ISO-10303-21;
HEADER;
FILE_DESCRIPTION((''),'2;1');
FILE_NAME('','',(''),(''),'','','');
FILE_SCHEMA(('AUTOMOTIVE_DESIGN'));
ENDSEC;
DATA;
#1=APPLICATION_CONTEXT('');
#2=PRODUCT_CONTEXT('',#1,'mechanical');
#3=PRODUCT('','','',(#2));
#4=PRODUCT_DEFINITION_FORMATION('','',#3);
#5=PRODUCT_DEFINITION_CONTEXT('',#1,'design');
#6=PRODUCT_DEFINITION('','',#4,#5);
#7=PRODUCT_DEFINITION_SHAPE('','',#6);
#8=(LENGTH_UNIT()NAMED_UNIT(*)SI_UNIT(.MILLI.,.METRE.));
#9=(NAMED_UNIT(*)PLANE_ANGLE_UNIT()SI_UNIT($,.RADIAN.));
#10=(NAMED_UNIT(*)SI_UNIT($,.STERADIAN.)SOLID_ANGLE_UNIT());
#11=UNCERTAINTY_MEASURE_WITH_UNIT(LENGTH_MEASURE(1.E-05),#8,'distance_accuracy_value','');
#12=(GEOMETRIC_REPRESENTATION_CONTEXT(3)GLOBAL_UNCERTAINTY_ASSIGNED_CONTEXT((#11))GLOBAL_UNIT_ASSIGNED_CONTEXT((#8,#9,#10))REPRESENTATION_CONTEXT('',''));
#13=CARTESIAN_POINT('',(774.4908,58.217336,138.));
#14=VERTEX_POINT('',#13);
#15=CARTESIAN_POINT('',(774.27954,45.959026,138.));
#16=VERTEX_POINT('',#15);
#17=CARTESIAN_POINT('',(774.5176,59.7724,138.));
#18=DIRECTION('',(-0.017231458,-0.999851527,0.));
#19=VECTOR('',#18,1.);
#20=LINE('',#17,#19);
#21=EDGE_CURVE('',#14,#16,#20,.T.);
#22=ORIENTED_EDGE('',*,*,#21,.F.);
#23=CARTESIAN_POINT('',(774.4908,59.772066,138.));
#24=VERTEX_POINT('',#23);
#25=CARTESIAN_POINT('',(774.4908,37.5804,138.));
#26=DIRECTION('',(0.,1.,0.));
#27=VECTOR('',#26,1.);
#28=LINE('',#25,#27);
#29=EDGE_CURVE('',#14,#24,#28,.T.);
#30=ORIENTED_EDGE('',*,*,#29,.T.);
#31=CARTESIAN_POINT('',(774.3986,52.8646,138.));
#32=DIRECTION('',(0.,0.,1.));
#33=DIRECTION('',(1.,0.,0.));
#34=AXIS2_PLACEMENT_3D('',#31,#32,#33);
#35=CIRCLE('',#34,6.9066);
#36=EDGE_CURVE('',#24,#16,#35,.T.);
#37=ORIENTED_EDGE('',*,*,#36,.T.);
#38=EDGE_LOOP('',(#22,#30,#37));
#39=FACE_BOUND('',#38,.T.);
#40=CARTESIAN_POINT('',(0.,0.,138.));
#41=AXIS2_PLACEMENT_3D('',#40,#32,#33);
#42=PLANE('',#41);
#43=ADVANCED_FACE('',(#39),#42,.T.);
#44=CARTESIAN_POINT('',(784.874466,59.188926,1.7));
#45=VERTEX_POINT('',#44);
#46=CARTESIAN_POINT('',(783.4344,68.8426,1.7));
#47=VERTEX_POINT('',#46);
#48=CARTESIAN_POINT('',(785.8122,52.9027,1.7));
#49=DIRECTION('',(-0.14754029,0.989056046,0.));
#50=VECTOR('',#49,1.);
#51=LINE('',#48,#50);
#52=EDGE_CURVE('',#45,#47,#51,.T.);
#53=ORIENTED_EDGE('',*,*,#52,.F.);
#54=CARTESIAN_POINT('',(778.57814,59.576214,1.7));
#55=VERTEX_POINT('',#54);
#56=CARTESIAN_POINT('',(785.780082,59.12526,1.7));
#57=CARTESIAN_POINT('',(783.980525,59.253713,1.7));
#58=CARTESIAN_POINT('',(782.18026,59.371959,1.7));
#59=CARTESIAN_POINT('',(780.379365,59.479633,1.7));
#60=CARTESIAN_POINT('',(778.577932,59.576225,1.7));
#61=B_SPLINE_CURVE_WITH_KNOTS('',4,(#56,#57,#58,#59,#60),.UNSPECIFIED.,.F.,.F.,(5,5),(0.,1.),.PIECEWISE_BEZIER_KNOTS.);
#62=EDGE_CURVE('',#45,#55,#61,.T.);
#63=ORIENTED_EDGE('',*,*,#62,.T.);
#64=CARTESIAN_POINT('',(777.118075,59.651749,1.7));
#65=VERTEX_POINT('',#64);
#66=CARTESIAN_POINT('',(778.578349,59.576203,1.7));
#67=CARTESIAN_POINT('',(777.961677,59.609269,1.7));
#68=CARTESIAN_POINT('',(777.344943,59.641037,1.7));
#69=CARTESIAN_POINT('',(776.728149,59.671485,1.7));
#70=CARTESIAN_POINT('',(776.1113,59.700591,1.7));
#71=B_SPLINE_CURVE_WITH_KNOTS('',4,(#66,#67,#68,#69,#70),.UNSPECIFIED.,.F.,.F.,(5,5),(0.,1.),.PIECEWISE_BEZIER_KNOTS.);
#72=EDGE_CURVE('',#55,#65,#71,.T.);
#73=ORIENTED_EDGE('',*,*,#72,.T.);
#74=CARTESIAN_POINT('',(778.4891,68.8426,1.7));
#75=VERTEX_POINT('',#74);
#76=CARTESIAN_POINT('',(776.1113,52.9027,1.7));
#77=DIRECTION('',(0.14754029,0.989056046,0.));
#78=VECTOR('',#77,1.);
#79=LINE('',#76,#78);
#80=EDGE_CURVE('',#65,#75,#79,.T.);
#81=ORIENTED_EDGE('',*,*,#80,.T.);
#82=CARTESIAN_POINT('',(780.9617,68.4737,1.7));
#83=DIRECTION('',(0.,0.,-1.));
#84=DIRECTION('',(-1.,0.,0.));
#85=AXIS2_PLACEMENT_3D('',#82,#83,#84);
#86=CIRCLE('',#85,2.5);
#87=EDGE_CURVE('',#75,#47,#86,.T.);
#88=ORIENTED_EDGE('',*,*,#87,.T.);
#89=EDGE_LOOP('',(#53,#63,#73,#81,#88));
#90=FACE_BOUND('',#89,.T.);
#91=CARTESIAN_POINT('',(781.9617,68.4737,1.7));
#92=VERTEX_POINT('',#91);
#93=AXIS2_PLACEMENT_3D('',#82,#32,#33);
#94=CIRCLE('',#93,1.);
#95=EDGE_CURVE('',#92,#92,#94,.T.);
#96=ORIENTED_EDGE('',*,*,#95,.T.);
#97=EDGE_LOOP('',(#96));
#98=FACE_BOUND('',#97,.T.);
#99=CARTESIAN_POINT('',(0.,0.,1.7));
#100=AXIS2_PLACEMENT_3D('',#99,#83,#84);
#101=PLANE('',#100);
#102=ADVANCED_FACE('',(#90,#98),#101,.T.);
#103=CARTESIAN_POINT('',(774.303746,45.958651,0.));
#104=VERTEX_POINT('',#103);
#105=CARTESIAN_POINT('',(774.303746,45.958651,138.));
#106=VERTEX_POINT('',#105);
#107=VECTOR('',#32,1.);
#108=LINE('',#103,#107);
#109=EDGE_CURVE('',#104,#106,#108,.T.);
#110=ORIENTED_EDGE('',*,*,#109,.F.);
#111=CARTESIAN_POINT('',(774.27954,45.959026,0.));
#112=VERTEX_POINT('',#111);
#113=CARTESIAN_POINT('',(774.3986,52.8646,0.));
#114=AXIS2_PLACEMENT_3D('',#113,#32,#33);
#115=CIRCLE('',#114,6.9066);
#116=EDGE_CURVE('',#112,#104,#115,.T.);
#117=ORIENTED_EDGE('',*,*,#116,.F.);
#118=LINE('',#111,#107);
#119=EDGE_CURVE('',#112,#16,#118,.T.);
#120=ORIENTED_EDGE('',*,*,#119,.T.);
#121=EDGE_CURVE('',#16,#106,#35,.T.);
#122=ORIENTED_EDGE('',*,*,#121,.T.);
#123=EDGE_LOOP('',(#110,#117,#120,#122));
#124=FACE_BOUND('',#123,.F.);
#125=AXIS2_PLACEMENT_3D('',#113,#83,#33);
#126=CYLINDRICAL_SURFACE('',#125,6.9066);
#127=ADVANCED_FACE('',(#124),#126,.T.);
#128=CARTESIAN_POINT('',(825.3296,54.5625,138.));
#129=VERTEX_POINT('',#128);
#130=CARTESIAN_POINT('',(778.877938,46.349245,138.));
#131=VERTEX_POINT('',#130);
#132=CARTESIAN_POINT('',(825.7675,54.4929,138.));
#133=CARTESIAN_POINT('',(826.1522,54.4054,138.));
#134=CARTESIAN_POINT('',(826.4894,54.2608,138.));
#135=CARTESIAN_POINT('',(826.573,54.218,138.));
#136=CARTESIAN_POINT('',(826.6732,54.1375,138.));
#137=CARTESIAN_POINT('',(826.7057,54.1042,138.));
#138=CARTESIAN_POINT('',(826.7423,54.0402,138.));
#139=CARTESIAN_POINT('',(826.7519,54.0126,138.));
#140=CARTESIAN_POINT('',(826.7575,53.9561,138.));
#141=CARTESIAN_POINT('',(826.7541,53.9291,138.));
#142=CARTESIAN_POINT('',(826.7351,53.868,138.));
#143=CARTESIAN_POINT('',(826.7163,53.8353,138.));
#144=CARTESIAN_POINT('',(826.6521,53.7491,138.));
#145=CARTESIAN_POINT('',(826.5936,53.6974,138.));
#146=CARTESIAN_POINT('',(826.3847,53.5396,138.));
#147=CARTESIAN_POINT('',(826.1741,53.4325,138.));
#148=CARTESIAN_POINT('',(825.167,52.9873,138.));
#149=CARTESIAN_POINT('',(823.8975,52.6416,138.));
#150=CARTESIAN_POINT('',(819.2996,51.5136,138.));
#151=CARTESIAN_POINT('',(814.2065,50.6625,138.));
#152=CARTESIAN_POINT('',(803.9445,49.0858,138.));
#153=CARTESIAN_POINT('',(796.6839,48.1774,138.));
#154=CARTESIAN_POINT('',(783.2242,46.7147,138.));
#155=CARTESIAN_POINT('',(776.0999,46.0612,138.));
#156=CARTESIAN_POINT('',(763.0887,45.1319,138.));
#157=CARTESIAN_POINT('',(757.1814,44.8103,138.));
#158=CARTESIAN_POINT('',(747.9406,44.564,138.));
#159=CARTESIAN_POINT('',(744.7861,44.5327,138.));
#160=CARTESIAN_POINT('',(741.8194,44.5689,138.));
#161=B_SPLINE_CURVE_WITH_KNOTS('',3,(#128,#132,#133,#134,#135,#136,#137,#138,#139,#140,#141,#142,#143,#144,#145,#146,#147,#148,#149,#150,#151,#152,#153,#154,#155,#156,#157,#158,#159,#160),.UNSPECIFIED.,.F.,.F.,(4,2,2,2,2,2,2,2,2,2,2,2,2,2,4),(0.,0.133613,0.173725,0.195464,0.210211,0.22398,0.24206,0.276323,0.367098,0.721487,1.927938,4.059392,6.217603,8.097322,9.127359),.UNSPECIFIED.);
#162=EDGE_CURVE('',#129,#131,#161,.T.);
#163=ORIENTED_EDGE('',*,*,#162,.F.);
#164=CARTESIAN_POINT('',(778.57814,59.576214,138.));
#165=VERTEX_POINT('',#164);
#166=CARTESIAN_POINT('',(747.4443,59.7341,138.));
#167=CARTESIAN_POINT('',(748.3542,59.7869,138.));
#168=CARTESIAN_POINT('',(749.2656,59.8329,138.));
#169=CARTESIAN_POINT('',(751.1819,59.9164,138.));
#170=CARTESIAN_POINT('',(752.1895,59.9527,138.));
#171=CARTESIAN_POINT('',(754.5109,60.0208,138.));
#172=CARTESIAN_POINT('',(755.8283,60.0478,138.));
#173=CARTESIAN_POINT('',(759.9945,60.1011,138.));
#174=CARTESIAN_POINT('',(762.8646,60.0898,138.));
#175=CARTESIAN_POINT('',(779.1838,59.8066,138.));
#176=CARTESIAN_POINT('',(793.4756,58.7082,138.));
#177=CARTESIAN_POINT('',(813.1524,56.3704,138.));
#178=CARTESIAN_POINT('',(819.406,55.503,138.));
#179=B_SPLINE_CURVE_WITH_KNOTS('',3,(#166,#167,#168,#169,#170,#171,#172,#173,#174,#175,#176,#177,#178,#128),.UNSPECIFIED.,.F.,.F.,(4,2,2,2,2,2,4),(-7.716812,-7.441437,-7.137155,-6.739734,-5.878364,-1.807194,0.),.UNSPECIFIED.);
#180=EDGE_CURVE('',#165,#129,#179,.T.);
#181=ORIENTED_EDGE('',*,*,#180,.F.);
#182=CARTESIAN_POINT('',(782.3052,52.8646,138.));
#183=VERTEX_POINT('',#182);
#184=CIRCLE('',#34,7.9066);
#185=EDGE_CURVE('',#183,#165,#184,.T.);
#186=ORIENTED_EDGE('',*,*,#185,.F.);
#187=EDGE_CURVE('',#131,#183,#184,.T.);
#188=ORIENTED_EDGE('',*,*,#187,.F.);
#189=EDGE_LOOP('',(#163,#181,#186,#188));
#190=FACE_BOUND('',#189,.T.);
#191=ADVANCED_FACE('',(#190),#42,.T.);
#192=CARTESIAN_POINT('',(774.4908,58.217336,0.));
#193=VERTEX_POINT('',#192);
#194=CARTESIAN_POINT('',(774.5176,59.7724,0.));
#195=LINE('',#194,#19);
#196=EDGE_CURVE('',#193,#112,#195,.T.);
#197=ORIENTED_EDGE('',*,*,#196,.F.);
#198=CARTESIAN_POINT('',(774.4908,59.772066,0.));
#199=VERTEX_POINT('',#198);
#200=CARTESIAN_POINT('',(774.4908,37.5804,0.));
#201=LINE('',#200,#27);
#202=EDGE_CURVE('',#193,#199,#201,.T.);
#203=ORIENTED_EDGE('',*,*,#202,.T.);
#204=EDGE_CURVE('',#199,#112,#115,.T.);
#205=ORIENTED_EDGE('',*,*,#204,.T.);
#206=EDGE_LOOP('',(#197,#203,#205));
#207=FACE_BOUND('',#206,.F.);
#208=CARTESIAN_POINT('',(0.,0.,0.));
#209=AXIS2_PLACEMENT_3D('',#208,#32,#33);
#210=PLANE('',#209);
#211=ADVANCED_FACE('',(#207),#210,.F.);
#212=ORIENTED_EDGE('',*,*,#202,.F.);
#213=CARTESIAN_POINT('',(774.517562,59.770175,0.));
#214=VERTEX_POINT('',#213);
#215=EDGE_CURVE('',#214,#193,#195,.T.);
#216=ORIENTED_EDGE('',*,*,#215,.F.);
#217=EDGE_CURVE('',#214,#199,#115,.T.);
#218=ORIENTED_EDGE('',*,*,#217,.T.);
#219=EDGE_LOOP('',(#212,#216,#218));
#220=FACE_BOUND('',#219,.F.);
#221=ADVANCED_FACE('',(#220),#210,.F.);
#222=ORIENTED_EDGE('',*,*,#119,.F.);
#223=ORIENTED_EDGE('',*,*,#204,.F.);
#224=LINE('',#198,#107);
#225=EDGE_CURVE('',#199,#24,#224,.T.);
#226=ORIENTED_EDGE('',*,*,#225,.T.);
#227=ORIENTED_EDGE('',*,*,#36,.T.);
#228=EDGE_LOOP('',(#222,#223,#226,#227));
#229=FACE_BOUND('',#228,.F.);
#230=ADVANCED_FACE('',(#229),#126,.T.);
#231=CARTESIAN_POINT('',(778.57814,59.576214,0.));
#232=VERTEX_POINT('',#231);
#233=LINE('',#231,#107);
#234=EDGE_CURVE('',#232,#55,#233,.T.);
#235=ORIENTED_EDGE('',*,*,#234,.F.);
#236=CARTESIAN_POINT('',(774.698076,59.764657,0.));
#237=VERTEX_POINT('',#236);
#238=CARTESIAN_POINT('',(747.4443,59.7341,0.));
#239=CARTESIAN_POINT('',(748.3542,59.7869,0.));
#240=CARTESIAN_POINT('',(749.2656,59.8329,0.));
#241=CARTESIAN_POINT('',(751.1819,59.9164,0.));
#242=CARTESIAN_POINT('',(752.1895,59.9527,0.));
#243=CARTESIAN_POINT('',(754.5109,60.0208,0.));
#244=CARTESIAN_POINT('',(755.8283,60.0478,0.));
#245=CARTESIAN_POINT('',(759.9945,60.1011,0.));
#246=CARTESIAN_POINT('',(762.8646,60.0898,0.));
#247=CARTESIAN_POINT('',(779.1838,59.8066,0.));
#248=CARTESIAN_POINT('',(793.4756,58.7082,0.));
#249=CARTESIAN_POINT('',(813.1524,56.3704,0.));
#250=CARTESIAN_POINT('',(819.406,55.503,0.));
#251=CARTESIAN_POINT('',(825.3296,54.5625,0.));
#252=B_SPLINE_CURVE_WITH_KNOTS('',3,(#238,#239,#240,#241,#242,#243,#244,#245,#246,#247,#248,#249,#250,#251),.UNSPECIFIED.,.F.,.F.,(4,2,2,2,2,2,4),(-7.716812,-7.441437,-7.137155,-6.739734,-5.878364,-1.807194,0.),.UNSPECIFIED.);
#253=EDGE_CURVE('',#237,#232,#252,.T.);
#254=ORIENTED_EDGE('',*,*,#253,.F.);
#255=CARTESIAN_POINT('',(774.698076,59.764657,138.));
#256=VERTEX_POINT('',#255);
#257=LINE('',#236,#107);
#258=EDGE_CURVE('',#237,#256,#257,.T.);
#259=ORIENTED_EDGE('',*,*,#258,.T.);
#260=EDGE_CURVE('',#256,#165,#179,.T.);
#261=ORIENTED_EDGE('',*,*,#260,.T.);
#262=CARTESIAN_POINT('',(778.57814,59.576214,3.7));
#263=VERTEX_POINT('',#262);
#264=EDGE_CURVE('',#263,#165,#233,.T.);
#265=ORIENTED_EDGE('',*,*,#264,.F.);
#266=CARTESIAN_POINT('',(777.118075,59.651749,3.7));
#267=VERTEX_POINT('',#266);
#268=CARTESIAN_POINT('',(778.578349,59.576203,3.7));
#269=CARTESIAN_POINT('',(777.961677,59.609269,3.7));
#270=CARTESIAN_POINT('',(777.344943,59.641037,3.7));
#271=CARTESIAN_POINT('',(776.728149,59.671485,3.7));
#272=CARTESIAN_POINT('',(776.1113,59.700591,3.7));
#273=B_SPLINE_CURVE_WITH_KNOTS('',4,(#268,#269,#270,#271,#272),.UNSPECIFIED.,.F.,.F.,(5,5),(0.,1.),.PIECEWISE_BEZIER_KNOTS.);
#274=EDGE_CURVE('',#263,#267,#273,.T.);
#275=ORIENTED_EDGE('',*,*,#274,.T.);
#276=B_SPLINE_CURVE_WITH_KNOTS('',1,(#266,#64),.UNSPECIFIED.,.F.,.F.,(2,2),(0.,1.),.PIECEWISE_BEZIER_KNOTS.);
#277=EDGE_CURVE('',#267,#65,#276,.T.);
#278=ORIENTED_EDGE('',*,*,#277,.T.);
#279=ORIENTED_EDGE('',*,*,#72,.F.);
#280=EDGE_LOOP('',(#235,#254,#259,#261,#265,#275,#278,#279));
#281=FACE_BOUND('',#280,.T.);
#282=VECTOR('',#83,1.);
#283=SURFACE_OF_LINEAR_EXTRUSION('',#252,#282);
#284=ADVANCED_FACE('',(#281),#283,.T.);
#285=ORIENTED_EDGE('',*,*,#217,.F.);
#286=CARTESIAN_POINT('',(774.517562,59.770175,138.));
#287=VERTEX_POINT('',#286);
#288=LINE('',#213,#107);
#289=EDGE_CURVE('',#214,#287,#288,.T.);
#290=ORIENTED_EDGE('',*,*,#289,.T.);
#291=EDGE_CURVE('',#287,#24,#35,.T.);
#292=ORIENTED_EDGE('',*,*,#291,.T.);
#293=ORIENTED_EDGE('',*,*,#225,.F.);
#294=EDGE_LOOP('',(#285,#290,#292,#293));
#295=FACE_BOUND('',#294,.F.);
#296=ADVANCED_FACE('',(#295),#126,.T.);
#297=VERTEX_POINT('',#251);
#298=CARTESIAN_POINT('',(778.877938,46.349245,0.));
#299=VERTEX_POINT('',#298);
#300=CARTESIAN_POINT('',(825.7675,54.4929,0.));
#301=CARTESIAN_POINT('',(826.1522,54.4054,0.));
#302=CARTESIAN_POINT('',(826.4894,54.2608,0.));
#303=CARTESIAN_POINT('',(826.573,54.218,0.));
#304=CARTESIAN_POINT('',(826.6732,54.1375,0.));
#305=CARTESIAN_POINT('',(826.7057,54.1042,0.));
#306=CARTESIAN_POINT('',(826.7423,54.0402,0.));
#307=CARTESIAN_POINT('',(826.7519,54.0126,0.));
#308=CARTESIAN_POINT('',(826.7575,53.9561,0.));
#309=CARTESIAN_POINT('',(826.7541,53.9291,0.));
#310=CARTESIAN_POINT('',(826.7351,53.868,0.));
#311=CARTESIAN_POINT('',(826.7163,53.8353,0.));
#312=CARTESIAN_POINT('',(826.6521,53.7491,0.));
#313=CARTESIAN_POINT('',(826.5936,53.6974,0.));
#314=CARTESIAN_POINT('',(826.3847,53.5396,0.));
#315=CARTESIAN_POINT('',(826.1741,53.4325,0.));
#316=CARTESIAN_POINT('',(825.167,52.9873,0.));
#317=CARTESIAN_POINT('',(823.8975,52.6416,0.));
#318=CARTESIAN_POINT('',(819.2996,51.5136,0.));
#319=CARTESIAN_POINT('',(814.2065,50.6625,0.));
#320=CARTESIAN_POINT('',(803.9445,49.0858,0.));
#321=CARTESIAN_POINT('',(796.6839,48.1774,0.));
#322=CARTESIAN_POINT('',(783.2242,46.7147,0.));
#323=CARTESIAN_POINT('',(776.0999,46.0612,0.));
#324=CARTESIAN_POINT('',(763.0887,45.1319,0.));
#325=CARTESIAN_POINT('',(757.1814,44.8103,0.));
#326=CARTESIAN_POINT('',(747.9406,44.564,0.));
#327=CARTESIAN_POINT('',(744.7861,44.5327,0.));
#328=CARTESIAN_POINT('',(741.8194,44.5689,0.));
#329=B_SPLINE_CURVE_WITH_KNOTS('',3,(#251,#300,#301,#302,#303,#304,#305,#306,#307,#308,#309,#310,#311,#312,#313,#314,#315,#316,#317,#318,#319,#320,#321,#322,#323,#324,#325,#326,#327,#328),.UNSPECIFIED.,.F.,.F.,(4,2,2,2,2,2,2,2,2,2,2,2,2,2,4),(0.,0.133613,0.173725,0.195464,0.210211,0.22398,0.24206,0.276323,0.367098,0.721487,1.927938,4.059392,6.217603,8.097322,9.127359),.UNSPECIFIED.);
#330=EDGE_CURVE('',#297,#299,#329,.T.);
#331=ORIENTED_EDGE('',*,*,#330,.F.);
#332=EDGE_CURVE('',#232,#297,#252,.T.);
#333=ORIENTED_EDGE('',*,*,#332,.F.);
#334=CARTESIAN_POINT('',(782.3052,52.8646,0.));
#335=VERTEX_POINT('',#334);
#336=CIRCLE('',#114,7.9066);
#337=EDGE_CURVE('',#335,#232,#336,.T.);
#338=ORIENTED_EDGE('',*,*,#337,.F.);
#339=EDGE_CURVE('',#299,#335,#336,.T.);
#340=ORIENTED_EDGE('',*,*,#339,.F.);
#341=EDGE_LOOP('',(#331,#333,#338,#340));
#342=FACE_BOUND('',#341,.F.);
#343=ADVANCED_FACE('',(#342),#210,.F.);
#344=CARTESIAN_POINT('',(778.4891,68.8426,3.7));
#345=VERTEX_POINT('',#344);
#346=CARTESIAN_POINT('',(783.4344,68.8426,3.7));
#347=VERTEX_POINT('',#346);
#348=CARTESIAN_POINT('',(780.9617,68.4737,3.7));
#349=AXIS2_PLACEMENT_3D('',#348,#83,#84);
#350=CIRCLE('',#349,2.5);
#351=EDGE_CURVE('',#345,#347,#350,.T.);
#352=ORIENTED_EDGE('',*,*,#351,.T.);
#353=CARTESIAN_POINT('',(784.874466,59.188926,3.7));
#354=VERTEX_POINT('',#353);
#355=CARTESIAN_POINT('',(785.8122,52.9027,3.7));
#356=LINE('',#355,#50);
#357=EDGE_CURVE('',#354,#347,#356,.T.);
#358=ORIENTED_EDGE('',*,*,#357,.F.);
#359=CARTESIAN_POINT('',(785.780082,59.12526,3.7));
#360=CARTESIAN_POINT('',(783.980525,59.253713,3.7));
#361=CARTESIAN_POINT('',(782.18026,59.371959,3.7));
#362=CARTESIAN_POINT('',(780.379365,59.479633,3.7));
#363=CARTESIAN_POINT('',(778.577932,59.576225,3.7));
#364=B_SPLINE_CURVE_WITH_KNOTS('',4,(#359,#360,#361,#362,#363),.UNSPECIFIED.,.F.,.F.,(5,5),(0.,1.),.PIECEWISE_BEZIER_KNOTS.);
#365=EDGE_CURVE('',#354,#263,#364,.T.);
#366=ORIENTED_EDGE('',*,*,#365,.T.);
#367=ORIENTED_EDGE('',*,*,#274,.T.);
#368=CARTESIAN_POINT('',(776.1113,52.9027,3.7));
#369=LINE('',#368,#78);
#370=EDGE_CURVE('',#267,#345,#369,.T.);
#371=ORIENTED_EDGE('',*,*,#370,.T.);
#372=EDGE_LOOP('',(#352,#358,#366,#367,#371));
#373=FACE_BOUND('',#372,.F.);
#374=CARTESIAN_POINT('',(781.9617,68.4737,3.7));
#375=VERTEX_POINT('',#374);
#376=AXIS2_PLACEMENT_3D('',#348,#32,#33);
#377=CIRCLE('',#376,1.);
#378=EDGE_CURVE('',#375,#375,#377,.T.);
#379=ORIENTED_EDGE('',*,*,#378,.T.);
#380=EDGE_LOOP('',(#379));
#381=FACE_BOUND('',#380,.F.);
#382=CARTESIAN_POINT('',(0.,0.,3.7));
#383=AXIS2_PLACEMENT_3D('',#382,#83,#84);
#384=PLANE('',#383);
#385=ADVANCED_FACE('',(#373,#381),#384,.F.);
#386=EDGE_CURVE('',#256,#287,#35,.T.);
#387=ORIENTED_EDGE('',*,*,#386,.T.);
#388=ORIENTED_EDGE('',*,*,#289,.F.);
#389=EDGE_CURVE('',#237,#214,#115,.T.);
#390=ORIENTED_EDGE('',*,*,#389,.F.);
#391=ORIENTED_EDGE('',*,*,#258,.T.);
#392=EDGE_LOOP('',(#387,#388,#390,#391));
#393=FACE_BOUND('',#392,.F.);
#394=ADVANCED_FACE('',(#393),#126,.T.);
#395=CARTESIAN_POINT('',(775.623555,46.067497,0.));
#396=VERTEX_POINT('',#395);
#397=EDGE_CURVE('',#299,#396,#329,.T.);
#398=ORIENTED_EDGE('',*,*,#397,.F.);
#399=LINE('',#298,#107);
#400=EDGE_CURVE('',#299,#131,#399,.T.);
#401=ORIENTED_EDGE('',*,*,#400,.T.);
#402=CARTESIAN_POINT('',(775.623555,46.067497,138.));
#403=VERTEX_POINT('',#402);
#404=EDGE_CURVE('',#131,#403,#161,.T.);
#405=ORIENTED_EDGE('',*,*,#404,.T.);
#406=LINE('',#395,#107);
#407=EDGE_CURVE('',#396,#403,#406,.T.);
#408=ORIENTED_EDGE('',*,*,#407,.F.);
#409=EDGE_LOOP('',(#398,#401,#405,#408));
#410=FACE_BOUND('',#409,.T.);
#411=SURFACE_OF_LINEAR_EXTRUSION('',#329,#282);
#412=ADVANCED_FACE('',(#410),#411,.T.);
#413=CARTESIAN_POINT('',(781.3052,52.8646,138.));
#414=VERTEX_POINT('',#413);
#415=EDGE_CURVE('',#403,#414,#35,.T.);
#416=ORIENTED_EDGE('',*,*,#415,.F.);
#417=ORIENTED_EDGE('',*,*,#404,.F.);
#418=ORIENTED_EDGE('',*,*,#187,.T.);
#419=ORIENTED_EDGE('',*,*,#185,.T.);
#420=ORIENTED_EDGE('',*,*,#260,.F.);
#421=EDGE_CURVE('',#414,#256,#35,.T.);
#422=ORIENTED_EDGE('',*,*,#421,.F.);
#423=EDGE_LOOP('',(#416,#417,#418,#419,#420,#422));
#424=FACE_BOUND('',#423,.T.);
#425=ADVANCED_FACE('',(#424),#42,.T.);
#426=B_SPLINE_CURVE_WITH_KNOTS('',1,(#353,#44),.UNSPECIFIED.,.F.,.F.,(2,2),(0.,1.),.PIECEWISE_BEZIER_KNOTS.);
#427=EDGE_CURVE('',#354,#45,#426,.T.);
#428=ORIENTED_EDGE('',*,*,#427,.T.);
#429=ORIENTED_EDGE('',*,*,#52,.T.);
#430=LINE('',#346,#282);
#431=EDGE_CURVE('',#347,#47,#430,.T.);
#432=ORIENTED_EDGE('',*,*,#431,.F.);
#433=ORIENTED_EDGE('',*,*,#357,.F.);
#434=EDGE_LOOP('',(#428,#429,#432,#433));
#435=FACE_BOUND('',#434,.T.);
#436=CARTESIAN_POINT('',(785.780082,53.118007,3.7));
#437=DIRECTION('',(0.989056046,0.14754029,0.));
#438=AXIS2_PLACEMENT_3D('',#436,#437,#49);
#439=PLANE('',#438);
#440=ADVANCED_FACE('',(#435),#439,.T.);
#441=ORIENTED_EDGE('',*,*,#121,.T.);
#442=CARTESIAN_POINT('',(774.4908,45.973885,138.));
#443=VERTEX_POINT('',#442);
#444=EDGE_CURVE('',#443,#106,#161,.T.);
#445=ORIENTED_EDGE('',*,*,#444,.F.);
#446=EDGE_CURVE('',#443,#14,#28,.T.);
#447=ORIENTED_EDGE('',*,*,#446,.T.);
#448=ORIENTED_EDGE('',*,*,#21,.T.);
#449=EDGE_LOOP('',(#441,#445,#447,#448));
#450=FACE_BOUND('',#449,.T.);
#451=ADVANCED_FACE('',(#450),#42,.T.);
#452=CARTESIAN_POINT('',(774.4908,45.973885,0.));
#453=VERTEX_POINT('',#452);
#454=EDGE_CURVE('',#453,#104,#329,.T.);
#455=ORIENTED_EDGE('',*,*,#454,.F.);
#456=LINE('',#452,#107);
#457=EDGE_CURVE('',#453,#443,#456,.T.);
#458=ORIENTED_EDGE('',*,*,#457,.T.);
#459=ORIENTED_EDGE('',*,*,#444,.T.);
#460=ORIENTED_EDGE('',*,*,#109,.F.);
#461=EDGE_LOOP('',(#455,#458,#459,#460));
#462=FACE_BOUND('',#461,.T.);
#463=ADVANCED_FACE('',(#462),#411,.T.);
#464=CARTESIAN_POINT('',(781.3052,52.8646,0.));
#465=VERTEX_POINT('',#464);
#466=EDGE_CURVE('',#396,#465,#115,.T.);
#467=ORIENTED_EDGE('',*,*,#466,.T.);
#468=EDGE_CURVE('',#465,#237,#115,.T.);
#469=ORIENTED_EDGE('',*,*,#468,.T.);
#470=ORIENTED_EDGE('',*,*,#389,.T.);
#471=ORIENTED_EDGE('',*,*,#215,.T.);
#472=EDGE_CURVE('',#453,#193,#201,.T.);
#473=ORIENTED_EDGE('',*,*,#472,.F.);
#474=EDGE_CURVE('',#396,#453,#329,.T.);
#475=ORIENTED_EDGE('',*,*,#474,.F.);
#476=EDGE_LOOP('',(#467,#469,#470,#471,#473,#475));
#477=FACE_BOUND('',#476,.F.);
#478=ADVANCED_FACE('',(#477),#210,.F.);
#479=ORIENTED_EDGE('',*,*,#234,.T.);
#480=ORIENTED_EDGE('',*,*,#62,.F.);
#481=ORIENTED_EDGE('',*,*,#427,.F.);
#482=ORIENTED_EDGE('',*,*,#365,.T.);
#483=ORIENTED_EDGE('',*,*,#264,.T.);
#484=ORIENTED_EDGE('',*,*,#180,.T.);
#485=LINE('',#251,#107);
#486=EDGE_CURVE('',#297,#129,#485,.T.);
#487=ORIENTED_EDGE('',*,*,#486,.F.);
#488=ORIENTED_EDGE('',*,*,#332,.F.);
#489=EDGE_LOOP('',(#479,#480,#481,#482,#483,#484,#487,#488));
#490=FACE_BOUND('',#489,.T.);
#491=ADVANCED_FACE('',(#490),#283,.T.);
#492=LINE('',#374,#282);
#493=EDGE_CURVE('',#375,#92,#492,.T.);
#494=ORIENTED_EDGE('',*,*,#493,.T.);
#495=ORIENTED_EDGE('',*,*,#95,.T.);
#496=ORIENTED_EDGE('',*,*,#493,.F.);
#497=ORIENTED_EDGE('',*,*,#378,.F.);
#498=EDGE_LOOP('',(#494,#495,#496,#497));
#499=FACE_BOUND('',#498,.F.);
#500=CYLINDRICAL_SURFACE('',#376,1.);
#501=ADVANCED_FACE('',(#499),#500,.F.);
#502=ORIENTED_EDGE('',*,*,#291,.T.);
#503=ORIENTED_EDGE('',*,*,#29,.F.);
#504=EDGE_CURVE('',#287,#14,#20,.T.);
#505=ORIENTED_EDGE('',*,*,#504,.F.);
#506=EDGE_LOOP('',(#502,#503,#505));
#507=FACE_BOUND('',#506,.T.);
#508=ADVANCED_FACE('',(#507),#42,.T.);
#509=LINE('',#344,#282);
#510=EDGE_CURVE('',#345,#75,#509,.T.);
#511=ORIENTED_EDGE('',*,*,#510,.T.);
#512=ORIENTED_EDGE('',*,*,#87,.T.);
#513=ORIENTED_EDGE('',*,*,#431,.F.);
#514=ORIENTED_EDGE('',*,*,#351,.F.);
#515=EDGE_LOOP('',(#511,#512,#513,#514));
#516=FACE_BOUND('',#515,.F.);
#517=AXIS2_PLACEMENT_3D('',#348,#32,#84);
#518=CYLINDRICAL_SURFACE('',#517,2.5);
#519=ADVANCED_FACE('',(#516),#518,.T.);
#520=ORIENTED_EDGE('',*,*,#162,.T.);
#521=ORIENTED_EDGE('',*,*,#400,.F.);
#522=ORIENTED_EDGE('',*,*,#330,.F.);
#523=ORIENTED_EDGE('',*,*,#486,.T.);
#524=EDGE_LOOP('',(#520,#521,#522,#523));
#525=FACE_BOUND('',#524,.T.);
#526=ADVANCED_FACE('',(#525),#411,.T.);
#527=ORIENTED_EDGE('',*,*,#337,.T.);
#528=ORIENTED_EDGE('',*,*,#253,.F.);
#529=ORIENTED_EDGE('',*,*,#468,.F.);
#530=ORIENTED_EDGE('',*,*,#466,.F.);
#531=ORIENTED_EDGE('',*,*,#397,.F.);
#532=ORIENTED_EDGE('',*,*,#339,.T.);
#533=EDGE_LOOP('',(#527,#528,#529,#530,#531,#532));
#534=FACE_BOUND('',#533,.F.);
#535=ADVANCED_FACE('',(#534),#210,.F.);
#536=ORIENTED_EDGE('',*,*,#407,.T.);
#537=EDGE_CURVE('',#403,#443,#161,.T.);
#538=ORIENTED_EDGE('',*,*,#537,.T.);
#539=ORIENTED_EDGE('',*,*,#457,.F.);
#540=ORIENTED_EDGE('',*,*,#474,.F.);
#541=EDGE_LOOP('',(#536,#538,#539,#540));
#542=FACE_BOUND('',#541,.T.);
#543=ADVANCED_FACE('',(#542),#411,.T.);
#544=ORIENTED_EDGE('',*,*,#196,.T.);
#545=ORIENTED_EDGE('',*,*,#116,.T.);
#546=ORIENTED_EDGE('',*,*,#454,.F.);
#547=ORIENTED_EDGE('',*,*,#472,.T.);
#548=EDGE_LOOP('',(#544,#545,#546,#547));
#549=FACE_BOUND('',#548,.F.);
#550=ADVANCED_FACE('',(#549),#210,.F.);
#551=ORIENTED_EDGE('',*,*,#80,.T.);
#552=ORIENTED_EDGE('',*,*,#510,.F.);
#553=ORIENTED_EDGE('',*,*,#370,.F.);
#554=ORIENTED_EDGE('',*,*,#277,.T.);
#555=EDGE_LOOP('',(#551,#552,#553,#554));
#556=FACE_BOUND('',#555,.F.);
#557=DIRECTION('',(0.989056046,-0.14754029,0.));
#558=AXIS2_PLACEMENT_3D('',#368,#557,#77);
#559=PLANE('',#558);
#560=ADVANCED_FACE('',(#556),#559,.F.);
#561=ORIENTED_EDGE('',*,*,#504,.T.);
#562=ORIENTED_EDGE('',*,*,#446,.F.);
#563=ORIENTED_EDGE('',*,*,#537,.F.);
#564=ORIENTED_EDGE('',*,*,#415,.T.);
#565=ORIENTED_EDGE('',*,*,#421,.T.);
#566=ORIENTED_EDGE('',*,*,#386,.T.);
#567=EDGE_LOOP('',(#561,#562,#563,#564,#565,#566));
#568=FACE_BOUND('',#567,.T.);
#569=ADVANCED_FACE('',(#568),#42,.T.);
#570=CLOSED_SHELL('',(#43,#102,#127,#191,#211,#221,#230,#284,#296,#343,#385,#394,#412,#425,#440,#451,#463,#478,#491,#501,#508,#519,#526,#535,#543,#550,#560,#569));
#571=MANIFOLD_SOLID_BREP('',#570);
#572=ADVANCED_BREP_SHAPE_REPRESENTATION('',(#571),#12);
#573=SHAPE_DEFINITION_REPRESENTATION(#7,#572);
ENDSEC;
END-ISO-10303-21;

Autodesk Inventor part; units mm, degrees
ref_plane "YZ Plane" through (0, 0, 0) normal (1, 0, 0) x (0, 1, 0)
ref_plane "XZ Plane" through (0, 0, 0) normal (0, 1, 0) x (-1, 0, 0)
sketch "Sketch21" plane through (0, 0, 0) normal (0, 0, 1) x (1, 0, 0)
  spline S0 degree 3 poles (825.3296, 54.5625) (825.7675, 54.4929) (826.1522, 54.4054) (826.4894, 54.2608) (826.573, 54.218) (826.6732, 54.1375) (826.7057, 54.1042) (826.7423, 54.0402) (826.7519, 54.0126) (826.7575, 53.9561) (826.7541, 53.9291) (826.7351, 53.868) (826.7163, 53.8353) (826.6521, 53.7491) (826.5936, 53.6974) (826.3847, 53.5396) (826.1741, 53.4325) (825.167, 52.9873) (823.8975, 52.6416) (819.2996, 51.5136) (814.2065, 50.6625) (803.9445, 49.0858) (796.6839, 48.1774) (783.2242, 46.7147) (776.0999, 46.0612) (763.0887, 45.1319) (757.1814, 44.8103) (747.9406, 44.564) (744.7861, 44.5327) (741.8194, 44.5689) knots 0 0 0 0 0.133613 0.133613 0.173725 0.173725 0.195464 0.195464 0.210211 0.210211 0.22398 0.22398 0.24206 0.24206 0.276323 0.276323 0.367098 0.367098 0.721487 0.721487 1.927938 1.927938 4.059392 4.059392 6.217603 6.217603 8.097322 8.097322 9.127359 9.127359 9.127359 9.127359
  spline S1 degree 3 poles (747.4443, 59.7341) (748.3542, 59.7869) (749.2656, 59.8329) (751.1819, 59.9164) (752.1895, 59.9527) (754.5109, 60.0208) (755.8283, 60.0478) (759.9945, 60.1011) (762.8646, 60.0898) (779.1838, 59.8066) (793.4756, 58.7082) (813.1524, 56.3704) (819.406, 55.503) (825.3296, 54.5625) knots -7.716812 -7.716812 -7.716812 -7.716812 -7.441437 -7.441437 -7.137155 -7.137155 -6.739734 -6.739734 -5.878364 -5.878364 -1.807194 -1.807194 0 0 0 0
  line L0 (774.5176, 59.7724) -> (774.2795, 45.9567)
  circle A0 centre (774.3986, 52.8646) radius 6.9066
  line L1 (829.1343, 37.5804) -> (774.4908, 37.5804)
  line L2 (774.4908, 37.5804) -> (774.4908, 70.116)
  line L3 (774.4908, 70.116) -> (829.1343, 70.116)
  line L4 (829.1343, 70.116) -> (829.1343, 37.5804)
  circle A1 centre (774.3986, 52.8646) radius 7.9066
  point P0 (0, 0)
  point P1 (719.6145, 49.2906)
  point P2 (774.3034, 45.9587)
  point P3 (774.6981, 59.7646)
  dimension "d7" = 1
extrude "Extrusion2" add sketch "Sketch21" along normal blind 138 contours S0 A1 S1 | S0 A0 S1 A1 | S0 L2 L0 A0 | S0 A0 L0 L2 | L0 L2 A0 | L2 L0 A0
ref_plane "Work Plane2" through (0, 0, 3.7) normal (0, 0, -1) x (-1, 0, 0)
sketch "Sketch22" plane through (0, 0, 3.7) normal (0, 0, -1) x (-1, 0, 0)
  arc A0 (-774.3034, 45.9587) -> (-774.6981, 59.7646) centre (-774.3986, 52.8646) ccw projected
  line L0 (-774.3986, 52.8646) -> (-826.6649, 54.0283)
  line L1 (-776.1113, 52.9027) -> (-778.4891, 68.8426)
  circle A1 centre (-780.9617, 68.4737) radius 2.5
  line L2 (-780.9617, 68.4737) -> (-780.9617, 53.0107)
  line L3 (-785.8122, 52.9027) -> (-783.4344, 68.8426)
  point P0 (0, 0)
  point P1 (-785.7801, 53.118)
  dimension "d11" = 5
extrude "Extrusion3" add sketch "Sketch22" along normal blind 2
sketch "Sketch23" plane through (0, 0, 3.7) normal (0, 0, 1) x (1, 0, 0)
  arc A0 (783.4344, 68.8426) -> (778.4891, 68.8426) centre (780.9617, 68.4737) ccw projected
  circle A1 centre (780.9617, 68.4737) radius 1
  point P0 (0, 0)
  dimension "d14" = 2
extrude "Extrusion4" cut sketch "Sketch23" against normal blind 10
properties part number "Rudder"
